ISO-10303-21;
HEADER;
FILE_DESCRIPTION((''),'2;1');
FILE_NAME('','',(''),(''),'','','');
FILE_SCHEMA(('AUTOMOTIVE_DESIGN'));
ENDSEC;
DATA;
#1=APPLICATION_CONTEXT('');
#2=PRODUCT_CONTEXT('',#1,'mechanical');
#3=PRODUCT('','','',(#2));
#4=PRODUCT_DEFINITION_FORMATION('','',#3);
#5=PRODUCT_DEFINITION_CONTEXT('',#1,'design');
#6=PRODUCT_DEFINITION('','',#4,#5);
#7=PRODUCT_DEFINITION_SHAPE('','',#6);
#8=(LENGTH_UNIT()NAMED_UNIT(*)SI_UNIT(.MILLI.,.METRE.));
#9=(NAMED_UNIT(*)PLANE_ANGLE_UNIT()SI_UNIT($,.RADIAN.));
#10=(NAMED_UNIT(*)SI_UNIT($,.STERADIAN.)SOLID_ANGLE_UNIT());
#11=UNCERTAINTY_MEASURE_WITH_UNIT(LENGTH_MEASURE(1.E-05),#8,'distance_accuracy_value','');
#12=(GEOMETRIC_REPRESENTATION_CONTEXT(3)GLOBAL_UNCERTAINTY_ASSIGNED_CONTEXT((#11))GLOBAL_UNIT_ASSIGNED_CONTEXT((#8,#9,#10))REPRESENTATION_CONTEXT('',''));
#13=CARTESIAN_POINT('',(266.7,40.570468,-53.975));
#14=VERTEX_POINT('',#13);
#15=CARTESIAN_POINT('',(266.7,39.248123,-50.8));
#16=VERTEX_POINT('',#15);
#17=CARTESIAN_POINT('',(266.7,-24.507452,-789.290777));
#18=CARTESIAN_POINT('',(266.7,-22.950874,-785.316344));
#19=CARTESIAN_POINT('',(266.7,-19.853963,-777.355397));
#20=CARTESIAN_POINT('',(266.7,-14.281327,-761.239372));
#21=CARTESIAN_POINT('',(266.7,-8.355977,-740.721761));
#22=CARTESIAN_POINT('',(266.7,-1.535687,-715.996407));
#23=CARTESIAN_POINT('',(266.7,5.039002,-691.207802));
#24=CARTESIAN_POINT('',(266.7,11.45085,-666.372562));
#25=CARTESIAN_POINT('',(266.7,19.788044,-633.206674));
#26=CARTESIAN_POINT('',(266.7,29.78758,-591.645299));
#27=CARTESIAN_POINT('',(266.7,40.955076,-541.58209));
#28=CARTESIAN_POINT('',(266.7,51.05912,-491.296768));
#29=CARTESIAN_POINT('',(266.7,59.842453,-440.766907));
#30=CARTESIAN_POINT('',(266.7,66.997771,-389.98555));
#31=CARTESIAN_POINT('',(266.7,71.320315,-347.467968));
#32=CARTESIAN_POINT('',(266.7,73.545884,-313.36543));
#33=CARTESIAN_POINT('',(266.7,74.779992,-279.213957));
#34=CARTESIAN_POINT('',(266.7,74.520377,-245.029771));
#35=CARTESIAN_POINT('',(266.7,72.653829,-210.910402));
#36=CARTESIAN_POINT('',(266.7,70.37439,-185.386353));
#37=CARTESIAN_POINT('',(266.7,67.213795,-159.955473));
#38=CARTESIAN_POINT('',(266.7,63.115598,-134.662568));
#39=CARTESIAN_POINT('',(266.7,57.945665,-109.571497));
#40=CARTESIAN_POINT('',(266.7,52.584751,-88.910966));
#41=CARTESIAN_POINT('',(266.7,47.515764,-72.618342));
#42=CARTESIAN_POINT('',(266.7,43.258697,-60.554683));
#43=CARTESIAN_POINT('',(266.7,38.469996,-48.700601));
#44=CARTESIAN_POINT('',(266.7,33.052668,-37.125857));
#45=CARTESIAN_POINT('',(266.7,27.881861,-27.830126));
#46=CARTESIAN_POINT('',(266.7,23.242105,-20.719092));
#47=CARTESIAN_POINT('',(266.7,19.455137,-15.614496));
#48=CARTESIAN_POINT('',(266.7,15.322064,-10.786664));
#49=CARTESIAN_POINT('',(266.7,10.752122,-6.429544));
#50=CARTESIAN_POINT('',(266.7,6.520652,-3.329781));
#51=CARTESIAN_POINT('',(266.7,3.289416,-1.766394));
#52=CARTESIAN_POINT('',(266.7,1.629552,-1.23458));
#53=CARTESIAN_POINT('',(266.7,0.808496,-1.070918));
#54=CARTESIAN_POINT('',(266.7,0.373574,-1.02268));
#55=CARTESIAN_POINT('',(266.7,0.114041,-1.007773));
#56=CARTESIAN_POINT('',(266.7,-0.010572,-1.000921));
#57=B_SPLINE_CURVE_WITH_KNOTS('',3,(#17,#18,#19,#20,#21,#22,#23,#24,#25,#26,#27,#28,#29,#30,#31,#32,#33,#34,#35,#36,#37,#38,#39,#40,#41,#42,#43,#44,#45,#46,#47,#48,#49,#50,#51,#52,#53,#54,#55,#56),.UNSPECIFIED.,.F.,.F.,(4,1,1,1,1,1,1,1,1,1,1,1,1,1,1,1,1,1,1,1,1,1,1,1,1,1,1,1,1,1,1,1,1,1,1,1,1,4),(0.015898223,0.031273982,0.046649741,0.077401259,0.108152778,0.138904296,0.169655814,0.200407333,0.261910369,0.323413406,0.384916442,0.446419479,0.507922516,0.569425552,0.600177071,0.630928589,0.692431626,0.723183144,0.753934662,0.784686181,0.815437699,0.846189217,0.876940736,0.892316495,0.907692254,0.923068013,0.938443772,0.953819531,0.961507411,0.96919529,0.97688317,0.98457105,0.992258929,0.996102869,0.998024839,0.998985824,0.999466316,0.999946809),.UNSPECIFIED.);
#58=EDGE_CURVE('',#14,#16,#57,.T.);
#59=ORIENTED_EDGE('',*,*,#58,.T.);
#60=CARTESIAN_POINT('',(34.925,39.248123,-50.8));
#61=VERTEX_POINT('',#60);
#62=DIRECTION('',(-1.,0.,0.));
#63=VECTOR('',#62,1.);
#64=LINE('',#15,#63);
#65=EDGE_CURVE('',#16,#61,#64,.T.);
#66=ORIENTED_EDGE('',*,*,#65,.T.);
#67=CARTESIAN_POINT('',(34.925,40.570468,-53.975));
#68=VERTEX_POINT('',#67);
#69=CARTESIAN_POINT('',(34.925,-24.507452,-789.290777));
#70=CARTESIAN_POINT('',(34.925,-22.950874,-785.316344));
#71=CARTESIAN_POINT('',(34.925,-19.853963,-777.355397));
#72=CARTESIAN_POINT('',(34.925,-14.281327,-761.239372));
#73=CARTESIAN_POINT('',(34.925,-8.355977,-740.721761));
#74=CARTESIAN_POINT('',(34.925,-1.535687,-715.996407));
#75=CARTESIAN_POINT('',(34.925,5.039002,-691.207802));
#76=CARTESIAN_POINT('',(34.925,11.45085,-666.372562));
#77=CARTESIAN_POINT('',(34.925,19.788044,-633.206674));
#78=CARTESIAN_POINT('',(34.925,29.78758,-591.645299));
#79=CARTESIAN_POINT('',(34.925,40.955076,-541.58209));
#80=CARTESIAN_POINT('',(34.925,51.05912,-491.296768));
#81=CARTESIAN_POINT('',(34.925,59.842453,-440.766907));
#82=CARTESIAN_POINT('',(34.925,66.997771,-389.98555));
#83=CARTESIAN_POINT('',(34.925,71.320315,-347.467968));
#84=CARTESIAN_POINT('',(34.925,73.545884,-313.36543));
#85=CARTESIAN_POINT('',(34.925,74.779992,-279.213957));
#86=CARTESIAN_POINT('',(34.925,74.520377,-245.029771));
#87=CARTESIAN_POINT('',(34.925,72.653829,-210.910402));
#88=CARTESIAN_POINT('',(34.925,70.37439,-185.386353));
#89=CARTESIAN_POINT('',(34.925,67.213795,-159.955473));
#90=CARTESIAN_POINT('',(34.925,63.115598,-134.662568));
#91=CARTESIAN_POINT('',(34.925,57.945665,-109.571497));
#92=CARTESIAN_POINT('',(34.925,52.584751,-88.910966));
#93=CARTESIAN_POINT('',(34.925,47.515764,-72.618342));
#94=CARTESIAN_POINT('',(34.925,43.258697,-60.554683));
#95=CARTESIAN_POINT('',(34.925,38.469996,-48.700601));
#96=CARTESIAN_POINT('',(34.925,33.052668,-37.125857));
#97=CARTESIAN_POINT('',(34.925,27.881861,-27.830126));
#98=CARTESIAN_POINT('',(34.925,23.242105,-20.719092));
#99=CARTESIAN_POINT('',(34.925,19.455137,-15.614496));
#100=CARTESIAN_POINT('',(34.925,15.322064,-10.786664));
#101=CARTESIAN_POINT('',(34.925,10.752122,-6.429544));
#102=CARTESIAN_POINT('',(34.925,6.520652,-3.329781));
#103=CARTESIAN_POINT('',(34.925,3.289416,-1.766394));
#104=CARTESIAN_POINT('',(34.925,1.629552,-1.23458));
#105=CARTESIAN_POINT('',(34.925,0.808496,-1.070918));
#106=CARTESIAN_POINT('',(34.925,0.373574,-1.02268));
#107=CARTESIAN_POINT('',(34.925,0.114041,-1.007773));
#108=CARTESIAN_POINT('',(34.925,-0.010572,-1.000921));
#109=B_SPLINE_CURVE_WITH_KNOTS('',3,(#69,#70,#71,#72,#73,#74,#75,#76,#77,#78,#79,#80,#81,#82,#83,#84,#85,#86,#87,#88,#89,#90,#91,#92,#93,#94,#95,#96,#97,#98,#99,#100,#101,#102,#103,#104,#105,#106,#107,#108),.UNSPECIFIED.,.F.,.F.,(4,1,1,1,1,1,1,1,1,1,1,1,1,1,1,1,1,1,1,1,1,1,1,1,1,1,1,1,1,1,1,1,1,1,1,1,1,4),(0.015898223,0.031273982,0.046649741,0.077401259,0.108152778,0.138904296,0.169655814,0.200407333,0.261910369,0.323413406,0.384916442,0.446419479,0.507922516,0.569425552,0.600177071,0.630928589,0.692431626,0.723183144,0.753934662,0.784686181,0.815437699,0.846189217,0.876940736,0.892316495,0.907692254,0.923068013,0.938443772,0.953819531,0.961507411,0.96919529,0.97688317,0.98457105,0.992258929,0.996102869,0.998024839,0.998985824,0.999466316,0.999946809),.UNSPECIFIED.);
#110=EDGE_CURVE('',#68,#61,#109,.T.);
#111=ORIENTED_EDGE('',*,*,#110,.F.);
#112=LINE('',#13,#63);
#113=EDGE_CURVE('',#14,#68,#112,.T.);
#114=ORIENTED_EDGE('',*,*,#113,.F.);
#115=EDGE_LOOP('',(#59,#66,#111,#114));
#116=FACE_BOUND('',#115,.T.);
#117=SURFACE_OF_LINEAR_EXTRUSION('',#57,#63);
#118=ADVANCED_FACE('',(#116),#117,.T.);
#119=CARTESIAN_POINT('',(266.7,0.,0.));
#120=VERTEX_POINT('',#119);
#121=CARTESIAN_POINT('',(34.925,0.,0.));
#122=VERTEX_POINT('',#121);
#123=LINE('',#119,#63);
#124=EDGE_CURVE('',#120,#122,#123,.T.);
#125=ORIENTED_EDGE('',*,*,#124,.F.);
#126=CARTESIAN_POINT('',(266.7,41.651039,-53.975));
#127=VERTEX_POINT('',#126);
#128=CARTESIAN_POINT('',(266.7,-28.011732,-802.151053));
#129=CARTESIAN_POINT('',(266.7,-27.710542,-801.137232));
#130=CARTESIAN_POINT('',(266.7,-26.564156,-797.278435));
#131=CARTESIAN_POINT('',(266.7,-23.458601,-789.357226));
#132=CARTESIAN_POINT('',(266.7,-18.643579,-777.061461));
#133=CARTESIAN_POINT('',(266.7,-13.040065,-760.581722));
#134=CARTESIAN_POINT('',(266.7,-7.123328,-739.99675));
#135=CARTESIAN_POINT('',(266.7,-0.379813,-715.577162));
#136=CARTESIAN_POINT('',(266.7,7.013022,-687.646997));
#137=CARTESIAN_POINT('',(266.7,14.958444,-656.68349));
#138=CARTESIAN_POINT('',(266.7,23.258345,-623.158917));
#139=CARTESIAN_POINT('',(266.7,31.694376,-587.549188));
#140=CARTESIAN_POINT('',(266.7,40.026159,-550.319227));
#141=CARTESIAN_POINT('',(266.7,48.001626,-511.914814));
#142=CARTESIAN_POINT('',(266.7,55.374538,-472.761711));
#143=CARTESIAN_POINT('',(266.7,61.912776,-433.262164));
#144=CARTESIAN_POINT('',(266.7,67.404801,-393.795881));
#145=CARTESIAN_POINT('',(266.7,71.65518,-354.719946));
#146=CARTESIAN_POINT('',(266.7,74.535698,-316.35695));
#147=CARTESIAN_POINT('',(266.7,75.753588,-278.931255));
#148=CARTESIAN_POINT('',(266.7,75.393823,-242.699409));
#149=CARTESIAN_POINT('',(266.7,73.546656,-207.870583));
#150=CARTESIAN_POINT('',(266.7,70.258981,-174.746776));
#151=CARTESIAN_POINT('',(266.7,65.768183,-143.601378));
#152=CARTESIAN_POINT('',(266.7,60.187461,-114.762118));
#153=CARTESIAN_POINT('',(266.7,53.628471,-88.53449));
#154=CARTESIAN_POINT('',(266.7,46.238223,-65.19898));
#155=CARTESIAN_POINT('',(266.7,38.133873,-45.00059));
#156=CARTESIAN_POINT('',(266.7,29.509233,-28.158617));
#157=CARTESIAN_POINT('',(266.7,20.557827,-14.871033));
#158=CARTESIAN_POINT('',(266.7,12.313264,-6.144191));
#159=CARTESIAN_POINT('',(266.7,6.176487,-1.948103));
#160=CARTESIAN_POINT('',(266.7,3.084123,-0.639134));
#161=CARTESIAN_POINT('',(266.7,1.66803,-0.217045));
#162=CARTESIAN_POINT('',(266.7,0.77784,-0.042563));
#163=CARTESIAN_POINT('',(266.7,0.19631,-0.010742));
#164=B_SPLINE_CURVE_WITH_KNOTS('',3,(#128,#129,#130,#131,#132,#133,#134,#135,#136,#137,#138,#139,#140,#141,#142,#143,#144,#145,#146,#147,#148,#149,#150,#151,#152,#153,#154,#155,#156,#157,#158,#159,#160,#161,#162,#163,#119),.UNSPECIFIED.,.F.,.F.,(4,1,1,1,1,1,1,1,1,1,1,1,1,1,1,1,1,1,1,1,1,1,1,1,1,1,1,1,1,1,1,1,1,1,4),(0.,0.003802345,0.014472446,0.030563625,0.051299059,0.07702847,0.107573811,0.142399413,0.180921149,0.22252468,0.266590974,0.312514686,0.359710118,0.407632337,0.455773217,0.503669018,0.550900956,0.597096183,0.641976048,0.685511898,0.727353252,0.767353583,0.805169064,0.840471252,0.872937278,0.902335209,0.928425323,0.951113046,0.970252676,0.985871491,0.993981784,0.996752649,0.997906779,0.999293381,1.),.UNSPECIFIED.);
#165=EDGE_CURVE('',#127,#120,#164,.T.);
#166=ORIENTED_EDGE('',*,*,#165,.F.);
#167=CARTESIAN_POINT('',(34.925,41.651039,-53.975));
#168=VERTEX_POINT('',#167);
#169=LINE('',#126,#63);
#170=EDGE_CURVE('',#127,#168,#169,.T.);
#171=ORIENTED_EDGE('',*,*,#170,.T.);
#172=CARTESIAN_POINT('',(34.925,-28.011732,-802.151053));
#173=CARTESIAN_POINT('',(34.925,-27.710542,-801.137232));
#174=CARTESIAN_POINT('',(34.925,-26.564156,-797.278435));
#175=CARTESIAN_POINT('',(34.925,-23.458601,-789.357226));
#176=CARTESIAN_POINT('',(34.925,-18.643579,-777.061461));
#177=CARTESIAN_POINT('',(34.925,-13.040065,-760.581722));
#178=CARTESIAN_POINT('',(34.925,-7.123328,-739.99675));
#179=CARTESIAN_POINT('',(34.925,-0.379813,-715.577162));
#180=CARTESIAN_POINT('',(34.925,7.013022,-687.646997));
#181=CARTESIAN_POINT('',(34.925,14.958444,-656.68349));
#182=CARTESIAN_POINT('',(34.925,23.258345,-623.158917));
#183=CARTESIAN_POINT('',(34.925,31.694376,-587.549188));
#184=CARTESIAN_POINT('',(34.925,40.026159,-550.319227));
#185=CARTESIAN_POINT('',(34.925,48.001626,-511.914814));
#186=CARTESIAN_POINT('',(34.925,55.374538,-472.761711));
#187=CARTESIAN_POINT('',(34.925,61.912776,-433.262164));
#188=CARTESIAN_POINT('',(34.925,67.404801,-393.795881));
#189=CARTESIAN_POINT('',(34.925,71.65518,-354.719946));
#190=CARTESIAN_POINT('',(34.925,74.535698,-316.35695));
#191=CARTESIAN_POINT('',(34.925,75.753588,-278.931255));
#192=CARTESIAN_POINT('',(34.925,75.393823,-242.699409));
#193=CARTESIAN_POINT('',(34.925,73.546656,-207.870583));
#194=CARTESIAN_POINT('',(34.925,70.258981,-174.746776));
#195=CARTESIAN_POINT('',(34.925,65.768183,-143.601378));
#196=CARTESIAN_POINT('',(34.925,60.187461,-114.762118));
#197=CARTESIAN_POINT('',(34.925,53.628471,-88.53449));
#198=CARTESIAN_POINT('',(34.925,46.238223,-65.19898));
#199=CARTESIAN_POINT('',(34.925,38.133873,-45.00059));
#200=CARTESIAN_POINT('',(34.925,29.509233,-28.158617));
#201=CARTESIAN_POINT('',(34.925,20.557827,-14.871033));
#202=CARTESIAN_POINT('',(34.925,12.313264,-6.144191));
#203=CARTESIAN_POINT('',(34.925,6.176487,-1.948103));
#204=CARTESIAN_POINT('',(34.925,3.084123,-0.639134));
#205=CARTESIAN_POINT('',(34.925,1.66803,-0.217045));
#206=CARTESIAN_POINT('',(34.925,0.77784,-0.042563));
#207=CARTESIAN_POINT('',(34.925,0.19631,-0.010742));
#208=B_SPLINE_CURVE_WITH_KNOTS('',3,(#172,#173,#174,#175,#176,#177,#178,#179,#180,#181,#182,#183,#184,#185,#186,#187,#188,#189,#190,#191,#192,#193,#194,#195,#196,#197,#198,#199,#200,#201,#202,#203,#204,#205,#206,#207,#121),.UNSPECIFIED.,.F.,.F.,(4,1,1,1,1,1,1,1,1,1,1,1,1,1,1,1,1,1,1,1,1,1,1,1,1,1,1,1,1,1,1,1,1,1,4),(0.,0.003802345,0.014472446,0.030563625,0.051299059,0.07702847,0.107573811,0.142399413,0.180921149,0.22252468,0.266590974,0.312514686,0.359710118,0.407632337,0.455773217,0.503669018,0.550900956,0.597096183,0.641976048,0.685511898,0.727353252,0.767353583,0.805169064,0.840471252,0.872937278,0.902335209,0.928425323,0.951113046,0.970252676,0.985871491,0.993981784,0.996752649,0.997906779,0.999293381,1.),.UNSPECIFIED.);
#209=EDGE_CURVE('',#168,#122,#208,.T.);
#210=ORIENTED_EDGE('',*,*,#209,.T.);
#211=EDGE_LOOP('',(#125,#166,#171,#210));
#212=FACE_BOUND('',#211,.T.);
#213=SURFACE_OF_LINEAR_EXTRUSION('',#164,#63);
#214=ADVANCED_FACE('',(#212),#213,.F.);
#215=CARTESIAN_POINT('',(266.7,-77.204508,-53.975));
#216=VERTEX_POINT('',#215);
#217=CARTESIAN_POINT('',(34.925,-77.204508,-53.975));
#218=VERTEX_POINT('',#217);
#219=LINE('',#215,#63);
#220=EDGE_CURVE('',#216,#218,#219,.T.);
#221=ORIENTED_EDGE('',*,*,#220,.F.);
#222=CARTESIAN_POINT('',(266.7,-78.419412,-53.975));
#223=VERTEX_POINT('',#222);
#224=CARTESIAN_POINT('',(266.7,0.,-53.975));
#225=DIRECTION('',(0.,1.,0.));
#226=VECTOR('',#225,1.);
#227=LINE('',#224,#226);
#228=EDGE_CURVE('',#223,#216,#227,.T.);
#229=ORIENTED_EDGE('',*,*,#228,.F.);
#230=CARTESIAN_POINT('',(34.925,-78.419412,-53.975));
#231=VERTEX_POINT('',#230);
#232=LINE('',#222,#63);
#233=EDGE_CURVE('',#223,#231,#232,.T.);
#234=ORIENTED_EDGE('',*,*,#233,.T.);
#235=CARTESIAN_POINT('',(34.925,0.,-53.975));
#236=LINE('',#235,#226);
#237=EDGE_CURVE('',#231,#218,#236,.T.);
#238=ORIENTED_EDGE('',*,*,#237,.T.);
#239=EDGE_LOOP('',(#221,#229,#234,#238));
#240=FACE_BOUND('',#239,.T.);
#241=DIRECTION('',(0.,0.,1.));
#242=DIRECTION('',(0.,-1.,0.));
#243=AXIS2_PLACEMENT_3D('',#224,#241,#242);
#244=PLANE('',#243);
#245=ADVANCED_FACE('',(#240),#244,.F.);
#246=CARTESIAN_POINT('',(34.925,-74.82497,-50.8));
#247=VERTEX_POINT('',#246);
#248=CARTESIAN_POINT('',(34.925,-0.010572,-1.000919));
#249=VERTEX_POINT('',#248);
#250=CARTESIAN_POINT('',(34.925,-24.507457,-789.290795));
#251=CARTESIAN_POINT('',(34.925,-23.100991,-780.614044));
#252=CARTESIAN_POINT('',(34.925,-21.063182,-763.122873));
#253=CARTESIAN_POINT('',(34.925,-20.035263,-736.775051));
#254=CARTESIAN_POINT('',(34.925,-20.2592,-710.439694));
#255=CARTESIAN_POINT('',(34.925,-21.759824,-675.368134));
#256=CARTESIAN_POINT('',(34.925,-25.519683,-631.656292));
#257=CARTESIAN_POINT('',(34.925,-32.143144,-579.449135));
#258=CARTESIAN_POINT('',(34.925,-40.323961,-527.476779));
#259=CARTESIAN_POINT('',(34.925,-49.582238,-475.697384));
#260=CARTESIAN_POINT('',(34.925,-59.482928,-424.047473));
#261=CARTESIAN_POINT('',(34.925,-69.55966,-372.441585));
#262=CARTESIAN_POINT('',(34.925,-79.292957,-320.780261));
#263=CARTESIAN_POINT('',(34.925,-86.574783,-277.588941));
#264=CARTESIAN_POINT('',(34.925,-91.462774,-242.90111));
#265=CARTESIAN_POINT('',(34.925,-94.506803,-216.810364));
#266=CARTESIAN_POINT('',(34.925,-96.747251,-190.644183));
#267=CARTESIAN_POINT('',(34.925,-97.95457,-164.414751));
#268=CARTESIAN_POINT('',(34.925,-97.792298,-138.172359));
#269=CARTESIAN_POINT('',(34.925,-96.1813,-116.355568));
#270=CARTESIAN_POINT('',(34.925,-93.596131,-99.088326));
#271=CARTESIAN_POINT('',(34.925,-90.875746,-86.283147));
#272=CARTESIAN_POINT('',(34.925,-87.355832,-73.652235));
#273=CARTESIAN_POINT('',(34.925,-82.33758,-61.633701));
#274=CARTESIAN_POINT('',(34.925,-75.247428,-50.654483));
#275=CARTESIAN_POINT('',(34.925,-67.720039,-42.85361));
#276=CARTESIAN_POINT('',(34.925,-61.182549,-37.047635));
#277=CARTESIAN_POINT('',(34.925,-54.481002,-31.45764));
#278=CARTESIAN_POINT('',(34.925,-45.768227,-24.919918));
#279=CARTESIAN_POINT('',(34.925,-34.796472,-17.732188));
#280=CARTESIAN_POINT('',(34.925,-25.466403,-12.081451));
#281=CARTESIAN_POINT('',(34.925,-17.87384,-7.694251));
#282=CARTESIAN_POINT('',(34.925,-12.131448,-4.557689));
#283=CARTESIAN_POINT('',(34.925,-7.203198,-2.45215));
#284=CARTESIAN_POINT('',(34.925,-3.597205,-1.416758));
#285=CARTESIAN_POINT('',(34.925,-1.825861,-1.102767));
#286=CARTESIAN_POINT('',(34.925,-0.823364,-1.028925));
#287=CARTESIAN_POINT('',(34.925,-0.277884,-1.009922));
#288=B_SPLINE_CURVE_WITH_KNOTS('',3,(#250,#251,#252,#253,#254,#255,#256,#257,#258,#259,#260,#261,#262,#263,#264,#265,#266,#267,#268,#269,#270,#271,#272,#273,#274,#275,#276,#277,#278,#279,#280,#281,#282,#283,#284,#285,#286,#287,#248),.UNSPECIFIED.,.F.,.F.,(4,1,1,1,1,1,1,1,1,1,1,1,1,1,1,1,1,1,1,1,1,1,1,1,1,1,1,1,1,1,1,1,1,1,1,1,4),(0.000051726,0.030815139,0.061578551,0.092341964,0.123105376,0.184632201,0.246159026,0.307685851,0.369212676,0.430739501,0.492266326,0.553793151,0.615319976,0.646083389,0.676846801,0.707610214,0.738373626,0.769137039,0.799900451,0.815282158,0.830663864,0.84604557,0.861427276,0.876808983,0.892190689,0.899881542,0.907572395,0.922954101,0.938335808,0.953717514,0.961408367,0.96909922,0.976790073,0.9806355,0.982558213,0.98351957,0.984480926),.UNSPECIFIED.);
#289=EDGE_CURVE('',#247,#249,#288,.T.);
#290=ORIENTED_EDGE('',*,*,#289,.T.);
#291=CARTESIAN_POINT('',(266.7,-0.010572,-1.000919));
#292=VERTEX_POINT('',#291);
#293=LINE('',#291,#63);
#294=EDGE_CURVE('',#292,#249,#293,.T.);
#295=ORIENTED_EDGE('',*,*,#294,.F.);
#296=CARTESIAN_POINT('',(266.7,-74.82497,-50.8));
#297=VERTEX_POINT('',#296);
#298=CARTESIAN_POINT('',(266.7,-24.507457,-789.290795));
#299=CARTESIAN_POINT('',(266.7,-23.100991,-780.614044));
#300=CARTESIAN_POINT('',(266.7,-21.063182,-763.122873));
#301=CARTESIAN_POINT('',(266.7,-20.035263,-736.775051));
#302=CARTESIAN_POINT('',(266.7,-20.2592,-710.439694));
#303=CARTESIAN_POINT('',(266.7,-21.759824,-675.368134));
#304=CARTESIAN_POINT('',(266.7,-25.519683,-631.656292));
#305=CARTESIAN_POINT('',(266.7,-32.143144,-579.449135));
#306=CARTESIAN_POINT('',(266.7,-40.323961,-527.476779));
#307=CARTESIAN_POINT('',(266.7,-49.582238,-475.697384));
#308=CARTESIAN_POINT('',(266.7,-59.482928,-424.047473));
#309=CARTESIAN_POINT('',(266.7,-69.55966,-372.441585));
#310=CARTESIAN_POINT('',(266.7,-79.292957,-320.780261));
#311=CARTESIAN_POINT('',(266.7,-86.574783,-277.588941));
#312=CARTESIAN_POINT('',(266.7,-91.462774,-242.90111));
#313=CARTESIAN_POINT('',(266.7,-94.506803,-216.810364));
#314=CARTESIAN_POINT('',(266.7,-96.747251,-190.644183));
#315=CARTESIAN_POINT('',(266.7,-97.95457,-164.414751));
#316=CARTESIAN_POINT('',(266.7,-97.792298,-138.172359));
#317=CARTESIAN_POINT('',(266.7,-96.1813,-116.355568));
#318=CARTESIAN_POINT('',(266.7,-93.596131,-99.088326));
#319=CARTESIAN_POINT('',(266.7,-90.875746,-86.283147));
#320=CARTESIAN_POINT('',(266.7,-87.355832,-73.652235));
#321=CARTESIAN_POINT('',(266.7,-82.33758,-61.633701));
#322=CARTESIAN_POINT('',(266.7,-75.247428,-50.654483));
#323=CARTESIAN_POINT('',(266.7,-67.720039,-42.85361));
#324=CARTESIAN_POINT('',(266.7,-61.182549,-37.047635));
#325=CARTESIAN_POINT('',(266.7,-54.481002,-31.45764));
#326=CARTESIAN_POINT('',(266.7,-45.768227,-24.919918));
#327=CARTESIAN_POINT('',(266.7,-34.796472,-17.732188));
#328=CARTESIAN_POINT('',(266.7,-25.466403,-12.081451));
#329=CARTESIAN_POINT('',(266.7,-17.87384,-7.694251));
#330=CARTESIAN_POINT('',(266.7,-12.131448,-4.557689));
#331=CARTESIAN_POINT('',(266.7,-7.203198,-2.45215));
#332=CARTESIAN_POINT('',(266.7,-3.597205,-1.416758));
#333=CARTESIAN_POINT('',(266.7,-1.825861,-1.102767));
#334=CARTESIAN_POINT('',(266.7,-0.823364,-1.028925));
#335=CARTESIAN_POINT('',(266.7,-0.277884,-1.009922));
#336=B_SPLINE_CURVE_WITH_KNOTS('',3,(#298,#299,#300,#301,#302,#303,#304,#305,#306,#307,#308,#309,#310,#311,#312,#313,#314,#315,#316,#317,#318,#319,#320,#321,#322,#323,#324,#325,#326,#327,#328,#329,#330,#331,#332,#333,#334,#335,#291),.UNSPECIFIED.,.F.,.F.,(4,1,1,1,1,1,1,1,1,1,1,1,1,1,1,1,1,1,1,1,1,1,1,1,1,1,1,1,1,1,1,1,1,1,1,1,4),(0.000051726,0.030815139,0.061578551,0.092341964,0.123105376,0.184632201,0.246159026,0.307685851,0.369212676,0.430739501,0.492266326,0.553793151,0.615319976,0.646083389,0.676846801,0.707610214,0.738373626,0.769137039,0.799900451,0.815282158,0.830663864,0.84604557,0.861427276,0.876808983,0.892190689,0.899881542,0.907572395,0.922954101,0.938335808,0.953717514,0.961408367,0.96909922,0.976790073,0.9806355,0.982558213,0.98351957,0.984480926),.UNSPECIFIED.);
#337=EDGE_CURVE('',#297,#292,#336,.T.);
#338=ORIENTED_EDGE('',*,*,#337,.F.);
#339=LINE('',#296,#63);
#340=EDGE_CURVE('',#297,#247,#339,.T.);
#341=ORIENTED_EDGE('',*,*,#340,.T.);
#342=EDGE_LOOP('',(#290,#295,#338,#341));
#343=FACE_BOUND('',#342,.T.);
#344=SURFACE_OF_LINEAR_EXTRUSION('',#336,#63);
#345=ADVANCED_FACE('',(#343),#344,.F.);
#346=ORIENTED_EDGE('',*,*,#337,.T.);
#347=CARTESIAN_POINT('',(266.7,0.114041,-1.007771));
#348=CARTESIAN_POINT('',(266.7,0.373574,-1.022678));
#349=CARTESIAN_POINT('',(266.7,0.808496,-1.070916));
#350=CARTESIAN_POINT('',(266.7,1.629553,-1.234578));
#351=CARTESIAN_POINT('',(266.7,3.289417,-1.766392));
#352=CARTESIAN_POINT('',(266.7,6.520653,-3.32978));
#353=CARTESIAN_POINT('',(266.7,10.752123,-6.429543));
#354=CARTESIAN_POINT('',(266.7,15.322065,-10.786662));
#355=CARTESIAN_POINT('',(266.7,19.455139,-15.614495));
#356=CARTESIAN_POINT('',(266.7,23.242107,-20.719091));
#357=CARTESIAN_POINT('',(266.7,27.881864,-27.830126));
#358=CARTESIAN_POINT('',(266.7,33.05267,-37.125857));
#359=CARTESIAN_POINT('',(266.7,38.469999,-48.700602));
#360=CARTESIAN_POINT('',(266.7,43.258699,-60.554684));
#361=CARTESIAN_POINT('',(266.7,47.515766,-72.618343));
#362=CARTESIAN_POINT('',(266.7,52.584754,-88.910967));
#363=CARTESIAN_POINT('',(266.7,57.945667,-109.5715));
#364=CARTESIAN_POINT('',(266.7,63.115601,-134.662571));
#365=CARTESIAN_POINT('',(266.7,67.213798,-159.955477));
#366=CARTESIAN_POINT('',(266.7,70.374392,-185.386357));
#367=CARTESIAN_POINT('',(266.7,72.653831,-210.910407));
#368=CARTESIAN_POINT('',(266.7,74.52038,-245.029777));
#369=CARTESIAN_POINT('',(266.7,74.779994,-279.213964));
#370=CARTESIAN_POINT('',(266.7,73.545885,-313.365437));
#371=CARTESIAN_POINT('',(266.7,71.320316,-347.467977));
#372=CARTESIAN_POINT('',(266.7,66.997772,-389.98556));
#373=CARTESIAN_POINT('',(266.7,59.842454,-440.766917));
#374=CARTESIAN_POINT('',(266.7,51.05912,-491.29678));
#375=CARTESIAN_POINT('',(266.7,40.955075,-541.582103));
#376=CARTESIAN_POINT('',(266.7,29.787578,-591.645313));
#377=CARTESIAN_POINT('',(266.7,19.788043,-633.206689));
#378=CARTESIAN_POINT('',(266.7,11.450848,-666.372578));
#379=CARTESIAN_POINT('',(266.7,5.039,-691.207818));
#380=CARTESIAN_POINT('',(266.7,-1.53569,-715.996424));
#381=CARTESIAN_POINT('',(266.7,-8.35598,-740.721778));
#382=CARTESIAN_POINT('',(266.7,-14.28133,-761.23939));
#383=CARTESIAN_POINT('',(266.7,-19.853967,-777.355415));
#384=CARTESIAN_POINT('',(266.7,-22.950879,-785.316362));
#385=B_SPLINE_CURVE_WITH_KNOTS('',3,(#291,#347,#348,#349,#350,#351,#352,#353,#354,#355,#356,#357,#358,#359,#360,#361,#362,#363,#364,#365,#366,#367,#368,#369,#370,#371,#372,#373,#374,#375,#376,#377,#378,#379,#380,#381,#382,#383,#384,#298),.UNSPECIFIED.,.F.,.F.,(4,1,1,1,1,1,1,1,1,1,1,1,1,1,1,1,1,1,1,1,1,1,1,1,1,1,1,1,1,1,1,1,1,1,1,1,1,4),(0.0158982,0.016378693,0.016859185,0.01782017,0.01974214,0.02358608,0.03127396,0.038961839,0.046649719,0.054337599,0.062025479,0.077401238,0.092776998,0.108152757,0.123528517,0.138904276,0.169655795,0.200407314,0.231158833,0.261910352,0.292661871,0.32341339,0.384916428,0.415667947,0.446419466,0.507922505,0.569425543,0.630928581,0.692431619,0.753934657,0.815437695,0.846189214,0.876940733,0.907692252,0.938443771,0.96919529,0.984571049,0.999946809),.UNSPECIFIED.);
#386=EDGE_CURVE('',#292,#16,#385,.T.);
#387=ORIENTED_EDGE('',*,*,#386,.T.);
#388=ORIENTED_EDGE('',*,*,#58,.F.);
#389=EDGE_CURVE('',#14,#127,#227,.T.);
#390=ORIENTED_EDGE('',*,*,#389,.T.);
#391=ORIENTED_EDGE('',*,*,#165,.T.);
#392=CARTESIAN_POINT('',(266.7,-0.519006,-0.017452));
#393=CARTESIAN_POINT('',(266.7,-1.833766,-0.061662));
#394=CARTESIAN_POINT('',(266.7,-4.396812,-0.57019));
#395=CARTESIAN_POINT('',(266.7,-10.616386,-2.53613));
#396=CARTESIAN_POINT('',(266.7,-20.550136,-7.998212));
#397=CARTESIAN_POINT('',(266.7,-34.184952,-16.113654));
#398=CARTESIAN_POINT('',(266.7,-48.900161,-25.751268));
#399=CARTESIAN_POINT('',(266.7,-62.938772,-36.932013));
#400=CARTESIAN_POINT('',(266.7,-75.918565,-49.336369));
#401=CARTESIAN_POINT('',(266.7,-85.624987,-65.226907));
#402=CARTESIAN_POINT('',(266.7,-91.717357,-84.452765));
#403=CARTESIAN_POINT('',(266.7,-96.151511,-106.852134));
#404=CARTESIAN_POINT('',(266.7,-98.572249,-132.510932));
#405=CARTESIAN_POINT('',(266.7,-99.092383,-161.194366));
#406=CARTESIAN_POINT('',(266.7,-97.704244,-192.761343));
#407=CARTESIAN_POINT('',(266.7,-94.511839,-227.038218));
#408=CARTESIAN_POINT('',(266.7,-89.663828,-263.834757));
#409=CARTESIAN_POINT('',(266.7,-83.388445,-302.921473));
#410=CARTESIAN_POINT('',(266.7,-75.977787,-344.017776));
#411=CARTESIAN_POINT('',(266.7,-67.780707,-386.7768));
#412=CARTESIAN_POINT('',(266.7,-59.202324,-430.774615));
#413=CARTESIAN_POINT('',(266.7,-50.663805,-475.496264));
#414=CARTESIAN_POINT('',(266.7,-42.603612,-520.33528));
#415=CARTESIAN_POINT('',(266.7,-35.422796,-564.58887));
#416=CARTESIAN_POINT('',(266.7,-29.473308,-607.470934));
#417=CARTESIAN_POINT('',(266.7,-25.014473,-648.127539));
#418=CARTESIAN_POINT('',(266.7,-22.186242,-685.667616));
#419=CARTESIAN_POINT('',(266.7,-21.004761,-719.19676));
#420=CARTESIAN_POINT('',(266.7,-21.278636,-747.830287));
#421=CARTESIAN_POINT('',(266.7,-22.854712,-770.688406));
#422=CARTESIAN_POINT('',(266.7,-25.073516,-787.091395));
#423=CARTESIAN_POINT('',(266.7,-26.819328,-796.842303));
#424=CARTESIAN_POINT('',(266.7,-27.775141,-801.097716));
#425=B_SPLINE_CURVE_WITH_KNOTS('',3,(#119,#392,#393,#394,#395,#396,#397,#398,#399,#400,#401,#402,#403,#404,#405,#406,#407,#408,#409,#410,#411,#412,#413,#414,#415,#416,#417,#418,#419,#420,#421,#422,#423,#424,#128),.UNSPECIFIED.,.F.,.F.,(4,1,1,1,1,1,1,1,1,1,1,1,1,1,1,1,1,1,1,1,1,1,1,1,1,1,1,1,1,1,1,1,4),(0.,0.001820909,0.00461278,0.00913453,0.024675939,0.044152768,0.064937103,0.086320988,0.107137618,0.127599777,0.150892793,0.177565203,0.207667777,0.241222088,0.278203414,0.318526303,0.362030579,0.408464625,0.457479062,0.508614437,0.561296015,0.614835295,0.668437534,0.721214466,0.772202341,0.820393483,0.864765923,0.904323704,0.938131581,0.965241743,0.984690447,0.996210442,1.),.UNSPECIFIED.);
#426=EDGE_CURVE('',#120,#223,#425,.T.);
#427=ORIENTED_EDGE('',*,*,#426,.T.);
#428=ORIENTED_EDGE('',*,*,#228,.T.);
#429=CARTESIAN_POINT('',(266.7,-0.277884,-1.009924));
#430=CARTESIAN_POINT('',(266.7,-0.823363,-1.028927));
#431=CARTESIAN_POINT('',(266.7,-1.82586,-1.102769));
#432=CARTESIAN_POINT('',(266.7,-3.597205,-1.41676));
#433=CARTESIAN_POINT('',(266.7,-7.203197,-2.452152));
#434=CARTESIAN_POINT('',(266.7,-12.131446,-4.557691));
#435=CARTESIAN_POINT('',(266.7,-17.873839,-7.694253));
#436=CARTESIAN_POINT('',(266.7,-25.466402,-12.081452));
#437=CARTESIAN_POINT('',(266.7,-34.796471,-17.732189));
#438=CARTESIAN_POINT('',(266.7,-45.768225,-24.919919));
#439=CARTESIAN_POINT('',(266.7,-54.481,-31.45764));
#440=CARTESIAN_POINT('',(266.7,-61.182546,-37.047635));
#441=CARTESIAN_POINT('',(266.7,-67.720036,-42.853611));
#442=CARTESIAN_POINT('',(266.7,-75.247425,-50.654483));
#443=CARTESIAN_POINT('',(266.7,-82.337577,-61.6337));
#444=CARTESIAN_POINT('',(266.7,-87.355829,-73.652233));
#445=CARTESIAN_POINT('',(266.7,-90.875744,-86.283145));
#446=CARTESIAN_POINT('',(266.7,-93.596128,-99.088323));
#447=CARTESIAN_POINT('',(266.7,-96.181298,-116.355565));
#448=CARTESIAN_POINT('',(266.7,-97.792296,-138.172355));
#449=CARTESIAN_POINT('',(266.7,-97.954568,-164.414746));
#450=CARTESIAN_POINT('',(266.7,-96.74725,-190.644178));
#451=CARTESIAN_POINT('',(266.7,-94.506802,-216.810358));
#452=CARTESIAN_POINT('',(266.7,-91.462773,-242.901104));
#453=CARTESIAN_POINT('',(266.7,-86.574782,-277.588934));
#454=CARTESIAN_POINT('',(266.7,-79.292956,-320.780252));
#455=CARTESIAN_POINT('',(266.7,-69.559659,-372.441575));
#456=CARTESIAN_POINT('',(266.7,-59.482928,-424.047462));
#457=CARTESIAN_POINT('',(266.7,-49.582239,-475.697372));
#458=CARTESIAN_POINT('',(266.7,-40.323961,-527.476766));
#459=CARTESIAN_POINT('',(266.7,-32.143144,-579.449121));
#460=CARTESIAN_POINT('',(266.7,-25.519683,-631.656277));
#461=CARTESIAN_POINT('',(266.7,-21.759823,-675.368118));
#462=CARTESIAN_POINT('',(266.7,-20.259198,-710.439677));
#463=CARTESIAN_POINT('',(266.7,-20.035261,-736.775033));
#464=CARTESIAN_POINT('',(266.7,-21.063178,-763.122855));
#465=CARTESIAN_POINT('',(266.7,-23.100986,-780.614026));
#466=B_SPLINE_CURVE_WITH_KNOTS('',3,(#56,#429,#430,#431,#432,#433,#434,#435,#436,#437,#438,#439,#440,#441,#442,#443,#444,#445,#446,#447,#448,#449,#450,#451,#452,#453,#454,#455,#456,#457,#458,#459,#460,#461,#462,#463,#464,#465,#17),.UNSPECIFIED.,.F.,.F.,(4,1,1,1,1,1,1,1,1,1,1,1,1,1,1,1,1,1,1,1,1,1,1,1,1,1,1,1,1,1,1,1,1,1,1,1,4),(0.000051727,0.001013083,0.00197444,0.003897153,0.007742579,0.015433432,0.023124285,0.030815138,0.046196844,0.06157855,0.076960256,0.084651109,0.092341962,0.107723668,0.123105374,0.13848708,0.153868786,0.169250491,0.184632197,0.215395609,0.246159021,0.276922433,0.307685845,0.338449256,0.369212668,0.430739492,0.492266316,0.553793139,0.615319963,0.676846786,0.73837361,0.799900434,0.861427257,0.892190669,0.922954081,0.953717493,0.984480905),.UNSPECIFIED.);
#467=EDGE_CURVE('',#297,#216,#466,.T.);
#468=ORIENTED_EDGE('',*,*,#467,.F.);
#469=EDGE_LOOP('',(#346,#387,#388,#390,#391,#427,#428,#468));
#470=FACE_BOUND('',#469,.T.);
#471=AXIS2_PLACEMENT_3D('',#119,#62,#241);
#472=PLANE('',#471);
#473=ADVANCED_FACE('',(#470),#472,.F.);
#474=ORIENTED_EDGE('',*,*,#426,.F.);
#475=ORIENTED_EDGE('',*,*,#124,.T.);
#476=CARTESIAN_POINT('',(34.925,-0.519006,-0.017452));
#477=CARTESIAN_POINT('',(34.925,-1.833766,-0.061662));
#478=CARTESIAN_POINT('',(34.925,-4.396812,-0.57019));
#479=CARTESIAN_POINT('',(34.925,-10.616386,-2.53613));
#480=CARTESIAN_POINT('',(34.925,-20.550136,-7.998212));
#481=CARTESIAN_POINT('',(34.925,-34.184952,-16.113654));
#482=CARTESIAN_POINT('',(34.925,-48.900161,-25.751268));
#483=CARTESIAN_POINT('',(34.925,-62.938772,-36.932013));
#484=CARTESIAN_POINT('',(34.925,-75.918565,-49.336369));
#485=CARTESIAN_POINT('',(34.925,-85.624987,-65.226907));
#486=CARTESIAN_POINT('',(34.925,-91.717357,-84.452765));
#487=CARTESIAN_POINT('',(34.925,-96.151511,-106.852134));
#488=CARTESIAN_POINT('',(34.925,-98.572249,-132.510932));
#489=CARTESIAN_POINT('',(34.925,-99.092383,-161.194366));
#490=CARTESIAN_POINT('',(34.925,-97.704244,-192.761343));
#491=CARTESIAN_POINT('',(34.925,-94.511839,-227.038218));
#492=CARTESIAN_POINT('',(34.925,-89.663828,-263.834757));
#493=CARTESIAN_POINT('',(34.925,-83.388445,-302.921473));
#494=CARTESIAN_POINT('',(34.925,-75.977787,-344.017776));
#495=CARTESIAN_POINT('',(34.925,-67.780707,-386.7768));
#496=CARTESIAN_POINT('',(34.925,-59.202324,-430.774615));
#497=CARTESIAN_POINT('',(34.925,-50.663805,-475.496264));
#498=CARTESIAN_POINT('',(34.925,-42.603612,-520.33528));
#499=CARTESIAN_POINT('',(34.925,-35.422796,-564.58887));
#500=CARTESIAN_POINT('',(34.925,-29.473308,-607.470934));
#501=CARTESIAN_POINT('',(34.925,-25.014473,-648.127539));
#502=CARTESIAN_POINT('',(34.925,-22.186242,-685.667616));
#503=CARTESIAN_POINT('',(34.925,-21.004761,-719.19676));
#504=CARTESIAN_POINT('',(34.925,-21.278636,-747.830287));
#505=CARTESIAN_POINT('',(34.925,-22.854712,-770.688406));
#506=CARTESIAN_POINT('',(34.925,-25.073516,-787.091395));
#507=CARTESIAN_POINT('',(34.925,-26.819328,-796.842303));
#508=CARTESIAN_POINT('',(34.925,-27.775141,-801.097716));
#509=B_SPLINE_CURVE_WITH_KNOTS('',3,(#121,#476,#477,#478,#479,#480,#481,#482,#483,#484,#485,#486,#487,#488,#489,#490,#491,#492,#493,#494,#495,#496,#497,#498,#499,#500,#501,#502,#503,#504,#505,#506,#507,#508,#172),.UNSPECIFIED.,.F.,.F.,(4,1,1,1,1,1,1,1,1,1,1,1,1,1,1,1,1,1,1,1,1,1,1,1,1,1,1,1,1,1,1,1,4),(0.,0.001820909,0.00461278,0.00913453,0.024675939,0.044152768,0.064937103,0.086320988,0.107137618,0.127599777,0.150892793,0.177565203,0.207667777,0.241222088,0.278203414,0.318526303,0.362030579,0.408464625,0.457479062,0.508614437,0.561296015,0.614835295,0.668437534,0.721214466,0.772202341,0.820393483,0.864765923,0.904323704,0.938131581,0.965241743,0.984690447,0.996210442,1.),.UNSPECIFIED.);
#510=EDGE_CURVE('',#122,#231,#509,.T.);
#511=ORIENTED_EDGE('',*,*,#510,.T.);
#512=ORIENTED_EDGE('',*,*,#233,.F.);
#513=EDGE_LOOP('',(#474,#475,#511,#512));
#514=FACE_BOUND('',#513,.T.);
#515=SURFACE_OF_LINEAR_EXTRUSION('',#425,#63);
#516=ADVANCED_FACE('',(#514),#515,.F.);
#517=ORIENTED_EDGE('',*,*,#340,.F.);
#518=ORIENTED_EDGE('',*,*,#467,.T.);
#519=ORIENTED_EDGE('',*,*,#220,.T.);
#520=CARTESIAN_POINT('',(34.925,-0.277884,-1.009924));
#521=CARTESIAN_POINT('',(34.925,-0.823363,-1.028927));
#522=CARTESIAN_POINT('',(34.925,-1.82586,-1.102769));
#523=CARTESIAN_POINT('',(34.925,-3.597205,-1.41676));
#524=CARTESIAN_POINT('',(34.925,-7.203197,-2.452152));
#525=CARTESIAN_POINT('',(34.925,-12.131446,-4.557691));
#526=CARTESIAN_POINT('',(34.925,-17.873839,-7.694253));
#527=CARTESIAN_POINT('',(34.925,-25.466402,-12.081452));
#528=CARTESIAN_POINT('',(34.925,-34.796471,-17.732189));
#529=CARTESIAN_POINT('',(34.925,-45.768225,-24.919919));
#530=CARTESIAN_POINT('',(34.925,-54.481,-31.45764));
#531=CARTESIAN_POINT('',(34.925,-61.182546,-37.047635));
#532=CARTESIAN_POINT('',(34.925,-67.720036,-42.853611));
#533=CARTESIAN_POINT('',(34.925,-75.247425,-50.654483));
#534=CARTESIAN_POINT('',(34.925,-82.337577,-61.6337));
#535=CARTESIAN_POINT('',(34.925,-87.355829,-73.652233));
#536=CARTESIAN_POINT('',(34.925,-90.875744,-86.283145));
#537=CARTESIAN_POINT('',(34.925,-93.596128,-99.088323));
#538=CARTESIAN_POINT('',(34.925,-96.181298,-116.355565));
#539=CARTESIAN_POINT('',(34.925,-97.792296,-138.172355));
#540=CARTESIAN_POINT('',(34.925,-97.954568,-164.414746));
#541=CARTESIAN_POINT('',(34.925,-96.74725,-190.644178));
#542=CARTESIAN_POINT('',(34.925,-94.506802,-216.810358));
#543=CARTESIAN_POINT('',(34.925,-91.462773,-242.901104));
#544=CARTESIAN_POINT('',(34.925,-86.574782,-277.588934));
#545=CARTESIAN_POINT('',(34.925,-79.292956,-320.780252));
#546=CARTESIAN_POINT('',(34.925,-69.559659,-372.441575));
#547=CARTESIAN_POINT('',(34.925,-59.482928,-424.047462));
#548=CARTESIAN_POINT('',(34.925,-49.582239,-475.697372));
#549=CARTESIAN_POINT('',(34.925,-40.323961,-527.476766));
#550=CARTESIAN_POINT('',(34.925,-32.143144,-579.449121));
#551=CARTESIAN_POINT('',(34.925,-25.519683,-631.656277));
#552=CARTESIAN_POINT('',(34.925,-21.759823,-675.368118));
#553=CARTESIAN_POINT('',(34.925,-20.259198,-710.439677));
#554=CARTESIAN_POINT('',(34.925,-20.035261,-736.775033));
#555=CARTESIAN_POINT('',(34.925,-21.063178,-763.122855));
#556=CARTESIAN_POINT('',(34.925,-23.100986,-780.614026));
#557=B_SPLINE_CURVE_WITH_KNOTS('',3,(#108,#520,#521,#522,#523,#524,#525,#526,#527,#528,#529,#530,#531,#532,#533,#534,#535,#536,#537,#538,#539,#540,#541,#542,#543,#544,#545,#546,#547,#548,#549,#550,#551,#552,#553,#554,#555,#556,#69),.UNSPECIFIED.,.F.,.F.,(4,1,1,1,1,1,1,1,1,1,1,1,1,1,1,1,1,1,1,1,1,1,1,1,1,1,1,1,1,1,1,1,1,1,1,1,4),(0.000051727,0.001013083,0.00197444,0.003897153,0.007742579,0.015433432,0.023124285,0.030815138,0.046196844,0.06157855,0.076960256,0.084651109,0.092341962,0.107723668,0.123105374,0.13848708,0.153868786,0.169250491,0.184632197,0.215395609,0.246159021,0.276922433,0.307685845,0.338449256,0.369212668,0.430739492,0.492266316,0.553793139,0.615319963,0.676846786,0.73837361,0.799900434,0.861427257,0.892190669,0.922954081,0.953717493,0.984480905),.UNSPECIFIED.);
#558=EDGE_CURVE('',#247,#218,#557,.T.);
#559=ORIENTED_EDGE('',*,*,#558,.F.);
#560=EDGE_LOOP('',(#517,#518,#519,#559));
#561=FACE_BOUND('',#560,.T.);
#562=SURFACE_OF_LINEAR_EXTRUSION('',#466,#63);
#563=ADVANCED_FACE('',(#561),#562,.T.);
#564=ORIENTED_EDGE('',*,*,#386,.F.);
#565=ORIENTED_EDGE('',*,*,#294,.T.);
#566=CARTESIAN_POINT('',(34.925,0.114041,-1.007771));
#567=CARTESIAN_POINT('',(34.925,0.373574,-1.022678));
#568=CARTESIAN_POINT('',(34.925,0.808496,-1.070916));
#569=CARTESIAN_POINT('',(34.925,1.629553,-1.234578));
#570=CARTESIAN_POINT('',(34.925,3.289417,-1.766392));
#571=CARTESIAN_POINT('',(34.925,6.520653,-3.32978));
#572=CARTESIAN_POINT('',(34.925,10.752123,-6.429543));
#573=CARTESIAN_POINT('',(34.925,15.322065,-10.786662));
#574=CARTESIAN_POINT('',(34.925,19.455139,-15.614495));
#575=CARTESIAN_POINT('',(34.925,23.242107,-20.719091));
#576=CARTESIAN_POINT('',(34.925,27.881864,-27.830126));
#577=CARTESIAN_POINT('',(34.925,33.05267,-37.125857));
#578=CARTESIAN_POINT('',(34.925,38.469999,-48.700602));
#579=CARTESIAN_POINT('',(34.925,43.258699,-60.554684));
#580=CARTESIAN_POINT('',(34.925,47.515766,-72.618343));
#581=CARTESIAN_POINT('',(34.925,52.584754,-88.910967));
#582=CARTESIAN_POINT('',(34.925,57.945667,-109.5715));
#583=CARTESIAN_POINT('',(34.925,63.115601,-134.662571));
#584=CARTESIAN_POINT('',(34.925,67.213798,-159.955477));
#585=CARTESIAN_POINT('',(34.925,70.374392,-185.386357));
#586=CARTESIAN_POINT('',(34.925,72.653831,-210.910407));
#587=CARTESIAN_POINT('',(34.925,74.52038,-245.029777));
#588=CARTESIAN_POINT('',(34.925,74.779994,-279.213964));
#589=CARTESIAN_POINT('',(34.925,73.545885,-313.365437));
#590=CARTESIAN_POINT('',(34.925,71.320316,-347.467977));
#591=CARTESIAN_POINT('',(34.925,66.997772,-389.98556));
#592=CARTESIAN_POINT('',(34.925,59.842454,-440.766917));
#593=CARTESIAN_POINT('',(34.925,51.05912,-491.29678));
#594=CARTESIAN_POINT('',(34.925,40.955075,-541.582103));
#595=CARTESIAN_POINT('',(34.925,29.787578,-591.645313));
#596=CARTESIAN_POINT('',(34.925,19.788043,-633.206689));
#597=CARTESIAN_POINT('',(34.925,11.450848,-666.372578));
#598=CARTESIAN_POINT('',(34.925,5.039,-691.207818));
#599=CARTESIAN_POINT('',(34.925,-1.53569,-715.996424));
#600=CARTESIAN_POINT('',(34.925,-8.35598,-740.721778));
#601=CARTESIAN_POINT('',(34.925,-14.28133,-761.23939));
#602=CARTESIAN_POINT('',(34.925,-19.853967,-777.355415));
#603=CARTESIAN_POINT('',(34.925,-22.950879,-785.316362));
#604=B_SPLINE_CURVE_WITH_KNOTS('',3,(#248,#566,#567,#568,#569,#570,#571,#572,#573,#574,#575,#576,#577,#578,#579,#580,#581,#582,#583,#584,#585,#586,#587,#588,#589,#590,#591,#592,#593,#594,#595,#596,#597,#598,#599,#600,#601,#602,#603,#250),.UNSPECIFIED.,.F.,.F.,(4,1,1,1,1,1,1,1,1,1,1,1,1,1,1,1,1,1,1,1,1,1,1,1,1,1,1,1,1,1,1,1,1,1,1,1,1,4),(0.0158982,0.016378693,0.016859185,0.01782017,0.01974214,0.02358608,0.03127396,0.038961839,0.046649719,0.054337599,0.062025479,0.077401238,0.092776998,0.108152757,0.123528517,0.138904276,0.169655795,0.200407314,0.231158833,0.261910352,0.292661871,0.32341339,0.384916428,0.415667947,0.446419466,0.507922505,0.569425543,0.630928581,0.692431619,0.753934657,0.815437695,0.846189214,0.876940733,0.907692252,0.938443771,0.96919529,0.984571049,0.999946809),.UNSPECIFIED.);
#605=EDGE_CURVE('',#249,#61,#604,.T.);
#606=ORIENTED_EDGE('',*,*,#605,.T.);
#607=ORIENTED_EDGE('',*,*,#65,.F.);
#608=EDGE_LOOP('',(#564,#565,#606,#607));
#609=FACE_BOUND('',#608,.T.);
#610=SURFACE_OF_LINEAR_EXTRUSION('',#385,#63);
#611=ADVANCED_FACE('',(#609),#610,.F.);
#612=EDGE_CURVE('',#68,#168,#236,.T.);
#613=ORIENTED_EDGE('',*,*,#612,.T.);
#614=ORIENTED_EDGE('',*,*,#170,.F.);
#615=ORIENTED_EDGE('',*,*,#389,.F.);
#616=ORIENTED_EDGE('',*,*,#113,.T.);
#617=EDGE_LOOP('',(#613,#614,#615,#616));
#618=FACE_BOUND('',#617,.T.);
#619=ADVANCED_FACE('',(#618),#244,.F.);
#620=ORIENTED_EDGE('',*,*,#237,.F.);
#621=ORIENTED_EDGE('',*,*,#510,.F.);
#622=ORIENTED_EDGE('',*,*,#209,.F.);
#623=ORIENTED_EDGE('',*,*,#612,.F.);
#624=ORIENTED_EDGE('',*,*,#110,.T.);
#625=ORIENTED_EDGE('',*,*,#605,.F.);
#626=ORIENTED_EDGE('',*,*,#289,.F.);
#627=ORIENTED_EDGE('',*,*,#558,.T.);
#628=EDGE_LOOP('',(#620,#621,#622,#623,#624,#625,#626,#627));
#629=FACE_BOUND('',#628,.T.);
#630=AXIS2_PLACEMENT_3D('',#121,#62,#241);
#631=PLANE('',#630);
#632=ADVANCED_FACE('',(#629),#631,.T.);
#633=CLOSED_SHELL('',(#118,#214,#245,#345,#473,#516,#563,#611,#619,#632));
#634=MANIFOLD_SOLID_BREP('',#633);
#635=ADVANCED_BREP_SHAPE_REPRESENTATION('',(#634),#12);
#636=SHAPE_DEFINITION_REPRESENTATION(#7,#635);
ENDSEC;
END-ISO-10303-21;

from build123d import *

# Parameters (mm, degrees)
BOSS_EXTRUDE1_DEPTH = 231.775


with BuildPart() as part:
    # Sketch1 → Boss-Extrude1 (new body)
    with BuildSketch(Plane.ZY.offset(-34.925)):
        with BuildLine():
            Line((-53.975, -77.204508027), (-53.975, -78.419412207))
            add(Edge.make_bspline(
                [(0, 0), (-0.017452033, -0.519005663), (-0.06166203, -1.833765907), (-0.570189515, -4.396811557), (-2.53612962, -10.616386462), (-7.9982118, -20.550135555), (-16.1136536, -34.184951823), (-25.751267724, -48.900160958), (-36.932012921, -62.938772264), (-46.457496122, -72.906141172), (-52.583490281, -77.46023067), (-53.975, -78.419412207)],
                knots=[0, 0, 0, 0, 0.001820909, 0.00461278, 0.00913453, 0.024675939, 0.044152768, 0.064937103, 0.086320988, 0.107137618, 0.113056669, 0.113056669, 0.113056669, 0.113056669], degree=3))
            add(Edge.make_bspline(
                [(-53.975, 41.651039403), (-50.709199496, 40.322947817), (-41.673766417, 36.430233183), (-28.158616929, 29.509232905), (-14.871033111, 20.557827015), (-6.144191432, 12.313264357), (-1.948102578, 6.176486601), (-0.639134364, 3.084122633), (-0.217045478, 1.668030347), (-0.042563089, 0.777840261), (-0.010742005, 0.196310087), (0, 0)],
                knots=[0.915751061, 0.915751061, 0.915751061, 0.915751061, 0.928425323, 0.951113046, 0.970252676, 0.985871491, 0.993981784, 0.996752649, 0.997906779, 0.999293381, 1, 1, 1, 1], degree=3))
            Line((-53.975, 41.651039403), (-53.975, 40.570467669))
            add(Edge.make_bspline(
                [(-53.975, 40.570467669), (-52.223886058, 39.855098624), (-46.55545684, 37.466004168), (-37.125856967, 33.052667662), (-27.830126078, 27.881861429), (-20.719091852, 23.242104552), (-15.614495512, 19.455137028), (-10.786663524, 15.322063664), (-6.429543979, 10.752121577), (-3.329781232, 6.520651809), (-1.766394253, 3.289416468), (-1.234579927, 1.629552357), (-1.070917704, 0.808496148), (-1.022680145, 0.373573872), (-1.00777339, 0.114040658), (-1.00092143, -0.010571576)],
                knots=[0.916241011, 0.916241011, 0.916241011, 0.916241011, 0.923068013, 0.938443772, 0.953819531, 0.961507411, 0.96919529, 0.97688317, 0.98457105, 0.992258929, 0.996102869, 0.998024839, 0.998985824, 0.999466316, 0.999946809, 0.999946809, 0.999946809, 0.999946809], degree=3))
            add(Edge.make_bspline(
                [(-1.00092143, -0.010571576), (-1.009923866, -0.277884036), (-1.028927427, -0.823363497), (-1.102768583, -1.825860344), (-1.416760314, -3.597204949), (-2.45215177, -7.203197251), (-4.557690792, -12.131446446), (-7.694252843, -17.87383852), (-12.081452023, -25.466401501), (-17.732189245, -34.79647061), (-24.919919042, -45.768224894), (-31.457640354, -54.481000173), (-37.047635253, -61.18254607), (-42.853610743, -67.720036372), (-48.449554365, -73.119796986), (-52.936471607, -76.472448044), (-53.975, -77.204508027)],
                knots=[5.1727e-05, 5.1727e-05, 5.1727e-05, 5.1727e-05, 0.001013083, 0.00197444, 0.003897153, 0.007742579, 0.015433432, 0.023124285, 0.030815138, 0.046196844, 0.06157855, 0.076960256, 0.084651109, 0.092341962, 0.107723668, 0.112236216, 0.112236216, 0.112236216, 0.112236216], degree=3))
        make_face()
    extrude(amount=-BOSS_EXTRUDE1_DEPTH)


solid = part.part
